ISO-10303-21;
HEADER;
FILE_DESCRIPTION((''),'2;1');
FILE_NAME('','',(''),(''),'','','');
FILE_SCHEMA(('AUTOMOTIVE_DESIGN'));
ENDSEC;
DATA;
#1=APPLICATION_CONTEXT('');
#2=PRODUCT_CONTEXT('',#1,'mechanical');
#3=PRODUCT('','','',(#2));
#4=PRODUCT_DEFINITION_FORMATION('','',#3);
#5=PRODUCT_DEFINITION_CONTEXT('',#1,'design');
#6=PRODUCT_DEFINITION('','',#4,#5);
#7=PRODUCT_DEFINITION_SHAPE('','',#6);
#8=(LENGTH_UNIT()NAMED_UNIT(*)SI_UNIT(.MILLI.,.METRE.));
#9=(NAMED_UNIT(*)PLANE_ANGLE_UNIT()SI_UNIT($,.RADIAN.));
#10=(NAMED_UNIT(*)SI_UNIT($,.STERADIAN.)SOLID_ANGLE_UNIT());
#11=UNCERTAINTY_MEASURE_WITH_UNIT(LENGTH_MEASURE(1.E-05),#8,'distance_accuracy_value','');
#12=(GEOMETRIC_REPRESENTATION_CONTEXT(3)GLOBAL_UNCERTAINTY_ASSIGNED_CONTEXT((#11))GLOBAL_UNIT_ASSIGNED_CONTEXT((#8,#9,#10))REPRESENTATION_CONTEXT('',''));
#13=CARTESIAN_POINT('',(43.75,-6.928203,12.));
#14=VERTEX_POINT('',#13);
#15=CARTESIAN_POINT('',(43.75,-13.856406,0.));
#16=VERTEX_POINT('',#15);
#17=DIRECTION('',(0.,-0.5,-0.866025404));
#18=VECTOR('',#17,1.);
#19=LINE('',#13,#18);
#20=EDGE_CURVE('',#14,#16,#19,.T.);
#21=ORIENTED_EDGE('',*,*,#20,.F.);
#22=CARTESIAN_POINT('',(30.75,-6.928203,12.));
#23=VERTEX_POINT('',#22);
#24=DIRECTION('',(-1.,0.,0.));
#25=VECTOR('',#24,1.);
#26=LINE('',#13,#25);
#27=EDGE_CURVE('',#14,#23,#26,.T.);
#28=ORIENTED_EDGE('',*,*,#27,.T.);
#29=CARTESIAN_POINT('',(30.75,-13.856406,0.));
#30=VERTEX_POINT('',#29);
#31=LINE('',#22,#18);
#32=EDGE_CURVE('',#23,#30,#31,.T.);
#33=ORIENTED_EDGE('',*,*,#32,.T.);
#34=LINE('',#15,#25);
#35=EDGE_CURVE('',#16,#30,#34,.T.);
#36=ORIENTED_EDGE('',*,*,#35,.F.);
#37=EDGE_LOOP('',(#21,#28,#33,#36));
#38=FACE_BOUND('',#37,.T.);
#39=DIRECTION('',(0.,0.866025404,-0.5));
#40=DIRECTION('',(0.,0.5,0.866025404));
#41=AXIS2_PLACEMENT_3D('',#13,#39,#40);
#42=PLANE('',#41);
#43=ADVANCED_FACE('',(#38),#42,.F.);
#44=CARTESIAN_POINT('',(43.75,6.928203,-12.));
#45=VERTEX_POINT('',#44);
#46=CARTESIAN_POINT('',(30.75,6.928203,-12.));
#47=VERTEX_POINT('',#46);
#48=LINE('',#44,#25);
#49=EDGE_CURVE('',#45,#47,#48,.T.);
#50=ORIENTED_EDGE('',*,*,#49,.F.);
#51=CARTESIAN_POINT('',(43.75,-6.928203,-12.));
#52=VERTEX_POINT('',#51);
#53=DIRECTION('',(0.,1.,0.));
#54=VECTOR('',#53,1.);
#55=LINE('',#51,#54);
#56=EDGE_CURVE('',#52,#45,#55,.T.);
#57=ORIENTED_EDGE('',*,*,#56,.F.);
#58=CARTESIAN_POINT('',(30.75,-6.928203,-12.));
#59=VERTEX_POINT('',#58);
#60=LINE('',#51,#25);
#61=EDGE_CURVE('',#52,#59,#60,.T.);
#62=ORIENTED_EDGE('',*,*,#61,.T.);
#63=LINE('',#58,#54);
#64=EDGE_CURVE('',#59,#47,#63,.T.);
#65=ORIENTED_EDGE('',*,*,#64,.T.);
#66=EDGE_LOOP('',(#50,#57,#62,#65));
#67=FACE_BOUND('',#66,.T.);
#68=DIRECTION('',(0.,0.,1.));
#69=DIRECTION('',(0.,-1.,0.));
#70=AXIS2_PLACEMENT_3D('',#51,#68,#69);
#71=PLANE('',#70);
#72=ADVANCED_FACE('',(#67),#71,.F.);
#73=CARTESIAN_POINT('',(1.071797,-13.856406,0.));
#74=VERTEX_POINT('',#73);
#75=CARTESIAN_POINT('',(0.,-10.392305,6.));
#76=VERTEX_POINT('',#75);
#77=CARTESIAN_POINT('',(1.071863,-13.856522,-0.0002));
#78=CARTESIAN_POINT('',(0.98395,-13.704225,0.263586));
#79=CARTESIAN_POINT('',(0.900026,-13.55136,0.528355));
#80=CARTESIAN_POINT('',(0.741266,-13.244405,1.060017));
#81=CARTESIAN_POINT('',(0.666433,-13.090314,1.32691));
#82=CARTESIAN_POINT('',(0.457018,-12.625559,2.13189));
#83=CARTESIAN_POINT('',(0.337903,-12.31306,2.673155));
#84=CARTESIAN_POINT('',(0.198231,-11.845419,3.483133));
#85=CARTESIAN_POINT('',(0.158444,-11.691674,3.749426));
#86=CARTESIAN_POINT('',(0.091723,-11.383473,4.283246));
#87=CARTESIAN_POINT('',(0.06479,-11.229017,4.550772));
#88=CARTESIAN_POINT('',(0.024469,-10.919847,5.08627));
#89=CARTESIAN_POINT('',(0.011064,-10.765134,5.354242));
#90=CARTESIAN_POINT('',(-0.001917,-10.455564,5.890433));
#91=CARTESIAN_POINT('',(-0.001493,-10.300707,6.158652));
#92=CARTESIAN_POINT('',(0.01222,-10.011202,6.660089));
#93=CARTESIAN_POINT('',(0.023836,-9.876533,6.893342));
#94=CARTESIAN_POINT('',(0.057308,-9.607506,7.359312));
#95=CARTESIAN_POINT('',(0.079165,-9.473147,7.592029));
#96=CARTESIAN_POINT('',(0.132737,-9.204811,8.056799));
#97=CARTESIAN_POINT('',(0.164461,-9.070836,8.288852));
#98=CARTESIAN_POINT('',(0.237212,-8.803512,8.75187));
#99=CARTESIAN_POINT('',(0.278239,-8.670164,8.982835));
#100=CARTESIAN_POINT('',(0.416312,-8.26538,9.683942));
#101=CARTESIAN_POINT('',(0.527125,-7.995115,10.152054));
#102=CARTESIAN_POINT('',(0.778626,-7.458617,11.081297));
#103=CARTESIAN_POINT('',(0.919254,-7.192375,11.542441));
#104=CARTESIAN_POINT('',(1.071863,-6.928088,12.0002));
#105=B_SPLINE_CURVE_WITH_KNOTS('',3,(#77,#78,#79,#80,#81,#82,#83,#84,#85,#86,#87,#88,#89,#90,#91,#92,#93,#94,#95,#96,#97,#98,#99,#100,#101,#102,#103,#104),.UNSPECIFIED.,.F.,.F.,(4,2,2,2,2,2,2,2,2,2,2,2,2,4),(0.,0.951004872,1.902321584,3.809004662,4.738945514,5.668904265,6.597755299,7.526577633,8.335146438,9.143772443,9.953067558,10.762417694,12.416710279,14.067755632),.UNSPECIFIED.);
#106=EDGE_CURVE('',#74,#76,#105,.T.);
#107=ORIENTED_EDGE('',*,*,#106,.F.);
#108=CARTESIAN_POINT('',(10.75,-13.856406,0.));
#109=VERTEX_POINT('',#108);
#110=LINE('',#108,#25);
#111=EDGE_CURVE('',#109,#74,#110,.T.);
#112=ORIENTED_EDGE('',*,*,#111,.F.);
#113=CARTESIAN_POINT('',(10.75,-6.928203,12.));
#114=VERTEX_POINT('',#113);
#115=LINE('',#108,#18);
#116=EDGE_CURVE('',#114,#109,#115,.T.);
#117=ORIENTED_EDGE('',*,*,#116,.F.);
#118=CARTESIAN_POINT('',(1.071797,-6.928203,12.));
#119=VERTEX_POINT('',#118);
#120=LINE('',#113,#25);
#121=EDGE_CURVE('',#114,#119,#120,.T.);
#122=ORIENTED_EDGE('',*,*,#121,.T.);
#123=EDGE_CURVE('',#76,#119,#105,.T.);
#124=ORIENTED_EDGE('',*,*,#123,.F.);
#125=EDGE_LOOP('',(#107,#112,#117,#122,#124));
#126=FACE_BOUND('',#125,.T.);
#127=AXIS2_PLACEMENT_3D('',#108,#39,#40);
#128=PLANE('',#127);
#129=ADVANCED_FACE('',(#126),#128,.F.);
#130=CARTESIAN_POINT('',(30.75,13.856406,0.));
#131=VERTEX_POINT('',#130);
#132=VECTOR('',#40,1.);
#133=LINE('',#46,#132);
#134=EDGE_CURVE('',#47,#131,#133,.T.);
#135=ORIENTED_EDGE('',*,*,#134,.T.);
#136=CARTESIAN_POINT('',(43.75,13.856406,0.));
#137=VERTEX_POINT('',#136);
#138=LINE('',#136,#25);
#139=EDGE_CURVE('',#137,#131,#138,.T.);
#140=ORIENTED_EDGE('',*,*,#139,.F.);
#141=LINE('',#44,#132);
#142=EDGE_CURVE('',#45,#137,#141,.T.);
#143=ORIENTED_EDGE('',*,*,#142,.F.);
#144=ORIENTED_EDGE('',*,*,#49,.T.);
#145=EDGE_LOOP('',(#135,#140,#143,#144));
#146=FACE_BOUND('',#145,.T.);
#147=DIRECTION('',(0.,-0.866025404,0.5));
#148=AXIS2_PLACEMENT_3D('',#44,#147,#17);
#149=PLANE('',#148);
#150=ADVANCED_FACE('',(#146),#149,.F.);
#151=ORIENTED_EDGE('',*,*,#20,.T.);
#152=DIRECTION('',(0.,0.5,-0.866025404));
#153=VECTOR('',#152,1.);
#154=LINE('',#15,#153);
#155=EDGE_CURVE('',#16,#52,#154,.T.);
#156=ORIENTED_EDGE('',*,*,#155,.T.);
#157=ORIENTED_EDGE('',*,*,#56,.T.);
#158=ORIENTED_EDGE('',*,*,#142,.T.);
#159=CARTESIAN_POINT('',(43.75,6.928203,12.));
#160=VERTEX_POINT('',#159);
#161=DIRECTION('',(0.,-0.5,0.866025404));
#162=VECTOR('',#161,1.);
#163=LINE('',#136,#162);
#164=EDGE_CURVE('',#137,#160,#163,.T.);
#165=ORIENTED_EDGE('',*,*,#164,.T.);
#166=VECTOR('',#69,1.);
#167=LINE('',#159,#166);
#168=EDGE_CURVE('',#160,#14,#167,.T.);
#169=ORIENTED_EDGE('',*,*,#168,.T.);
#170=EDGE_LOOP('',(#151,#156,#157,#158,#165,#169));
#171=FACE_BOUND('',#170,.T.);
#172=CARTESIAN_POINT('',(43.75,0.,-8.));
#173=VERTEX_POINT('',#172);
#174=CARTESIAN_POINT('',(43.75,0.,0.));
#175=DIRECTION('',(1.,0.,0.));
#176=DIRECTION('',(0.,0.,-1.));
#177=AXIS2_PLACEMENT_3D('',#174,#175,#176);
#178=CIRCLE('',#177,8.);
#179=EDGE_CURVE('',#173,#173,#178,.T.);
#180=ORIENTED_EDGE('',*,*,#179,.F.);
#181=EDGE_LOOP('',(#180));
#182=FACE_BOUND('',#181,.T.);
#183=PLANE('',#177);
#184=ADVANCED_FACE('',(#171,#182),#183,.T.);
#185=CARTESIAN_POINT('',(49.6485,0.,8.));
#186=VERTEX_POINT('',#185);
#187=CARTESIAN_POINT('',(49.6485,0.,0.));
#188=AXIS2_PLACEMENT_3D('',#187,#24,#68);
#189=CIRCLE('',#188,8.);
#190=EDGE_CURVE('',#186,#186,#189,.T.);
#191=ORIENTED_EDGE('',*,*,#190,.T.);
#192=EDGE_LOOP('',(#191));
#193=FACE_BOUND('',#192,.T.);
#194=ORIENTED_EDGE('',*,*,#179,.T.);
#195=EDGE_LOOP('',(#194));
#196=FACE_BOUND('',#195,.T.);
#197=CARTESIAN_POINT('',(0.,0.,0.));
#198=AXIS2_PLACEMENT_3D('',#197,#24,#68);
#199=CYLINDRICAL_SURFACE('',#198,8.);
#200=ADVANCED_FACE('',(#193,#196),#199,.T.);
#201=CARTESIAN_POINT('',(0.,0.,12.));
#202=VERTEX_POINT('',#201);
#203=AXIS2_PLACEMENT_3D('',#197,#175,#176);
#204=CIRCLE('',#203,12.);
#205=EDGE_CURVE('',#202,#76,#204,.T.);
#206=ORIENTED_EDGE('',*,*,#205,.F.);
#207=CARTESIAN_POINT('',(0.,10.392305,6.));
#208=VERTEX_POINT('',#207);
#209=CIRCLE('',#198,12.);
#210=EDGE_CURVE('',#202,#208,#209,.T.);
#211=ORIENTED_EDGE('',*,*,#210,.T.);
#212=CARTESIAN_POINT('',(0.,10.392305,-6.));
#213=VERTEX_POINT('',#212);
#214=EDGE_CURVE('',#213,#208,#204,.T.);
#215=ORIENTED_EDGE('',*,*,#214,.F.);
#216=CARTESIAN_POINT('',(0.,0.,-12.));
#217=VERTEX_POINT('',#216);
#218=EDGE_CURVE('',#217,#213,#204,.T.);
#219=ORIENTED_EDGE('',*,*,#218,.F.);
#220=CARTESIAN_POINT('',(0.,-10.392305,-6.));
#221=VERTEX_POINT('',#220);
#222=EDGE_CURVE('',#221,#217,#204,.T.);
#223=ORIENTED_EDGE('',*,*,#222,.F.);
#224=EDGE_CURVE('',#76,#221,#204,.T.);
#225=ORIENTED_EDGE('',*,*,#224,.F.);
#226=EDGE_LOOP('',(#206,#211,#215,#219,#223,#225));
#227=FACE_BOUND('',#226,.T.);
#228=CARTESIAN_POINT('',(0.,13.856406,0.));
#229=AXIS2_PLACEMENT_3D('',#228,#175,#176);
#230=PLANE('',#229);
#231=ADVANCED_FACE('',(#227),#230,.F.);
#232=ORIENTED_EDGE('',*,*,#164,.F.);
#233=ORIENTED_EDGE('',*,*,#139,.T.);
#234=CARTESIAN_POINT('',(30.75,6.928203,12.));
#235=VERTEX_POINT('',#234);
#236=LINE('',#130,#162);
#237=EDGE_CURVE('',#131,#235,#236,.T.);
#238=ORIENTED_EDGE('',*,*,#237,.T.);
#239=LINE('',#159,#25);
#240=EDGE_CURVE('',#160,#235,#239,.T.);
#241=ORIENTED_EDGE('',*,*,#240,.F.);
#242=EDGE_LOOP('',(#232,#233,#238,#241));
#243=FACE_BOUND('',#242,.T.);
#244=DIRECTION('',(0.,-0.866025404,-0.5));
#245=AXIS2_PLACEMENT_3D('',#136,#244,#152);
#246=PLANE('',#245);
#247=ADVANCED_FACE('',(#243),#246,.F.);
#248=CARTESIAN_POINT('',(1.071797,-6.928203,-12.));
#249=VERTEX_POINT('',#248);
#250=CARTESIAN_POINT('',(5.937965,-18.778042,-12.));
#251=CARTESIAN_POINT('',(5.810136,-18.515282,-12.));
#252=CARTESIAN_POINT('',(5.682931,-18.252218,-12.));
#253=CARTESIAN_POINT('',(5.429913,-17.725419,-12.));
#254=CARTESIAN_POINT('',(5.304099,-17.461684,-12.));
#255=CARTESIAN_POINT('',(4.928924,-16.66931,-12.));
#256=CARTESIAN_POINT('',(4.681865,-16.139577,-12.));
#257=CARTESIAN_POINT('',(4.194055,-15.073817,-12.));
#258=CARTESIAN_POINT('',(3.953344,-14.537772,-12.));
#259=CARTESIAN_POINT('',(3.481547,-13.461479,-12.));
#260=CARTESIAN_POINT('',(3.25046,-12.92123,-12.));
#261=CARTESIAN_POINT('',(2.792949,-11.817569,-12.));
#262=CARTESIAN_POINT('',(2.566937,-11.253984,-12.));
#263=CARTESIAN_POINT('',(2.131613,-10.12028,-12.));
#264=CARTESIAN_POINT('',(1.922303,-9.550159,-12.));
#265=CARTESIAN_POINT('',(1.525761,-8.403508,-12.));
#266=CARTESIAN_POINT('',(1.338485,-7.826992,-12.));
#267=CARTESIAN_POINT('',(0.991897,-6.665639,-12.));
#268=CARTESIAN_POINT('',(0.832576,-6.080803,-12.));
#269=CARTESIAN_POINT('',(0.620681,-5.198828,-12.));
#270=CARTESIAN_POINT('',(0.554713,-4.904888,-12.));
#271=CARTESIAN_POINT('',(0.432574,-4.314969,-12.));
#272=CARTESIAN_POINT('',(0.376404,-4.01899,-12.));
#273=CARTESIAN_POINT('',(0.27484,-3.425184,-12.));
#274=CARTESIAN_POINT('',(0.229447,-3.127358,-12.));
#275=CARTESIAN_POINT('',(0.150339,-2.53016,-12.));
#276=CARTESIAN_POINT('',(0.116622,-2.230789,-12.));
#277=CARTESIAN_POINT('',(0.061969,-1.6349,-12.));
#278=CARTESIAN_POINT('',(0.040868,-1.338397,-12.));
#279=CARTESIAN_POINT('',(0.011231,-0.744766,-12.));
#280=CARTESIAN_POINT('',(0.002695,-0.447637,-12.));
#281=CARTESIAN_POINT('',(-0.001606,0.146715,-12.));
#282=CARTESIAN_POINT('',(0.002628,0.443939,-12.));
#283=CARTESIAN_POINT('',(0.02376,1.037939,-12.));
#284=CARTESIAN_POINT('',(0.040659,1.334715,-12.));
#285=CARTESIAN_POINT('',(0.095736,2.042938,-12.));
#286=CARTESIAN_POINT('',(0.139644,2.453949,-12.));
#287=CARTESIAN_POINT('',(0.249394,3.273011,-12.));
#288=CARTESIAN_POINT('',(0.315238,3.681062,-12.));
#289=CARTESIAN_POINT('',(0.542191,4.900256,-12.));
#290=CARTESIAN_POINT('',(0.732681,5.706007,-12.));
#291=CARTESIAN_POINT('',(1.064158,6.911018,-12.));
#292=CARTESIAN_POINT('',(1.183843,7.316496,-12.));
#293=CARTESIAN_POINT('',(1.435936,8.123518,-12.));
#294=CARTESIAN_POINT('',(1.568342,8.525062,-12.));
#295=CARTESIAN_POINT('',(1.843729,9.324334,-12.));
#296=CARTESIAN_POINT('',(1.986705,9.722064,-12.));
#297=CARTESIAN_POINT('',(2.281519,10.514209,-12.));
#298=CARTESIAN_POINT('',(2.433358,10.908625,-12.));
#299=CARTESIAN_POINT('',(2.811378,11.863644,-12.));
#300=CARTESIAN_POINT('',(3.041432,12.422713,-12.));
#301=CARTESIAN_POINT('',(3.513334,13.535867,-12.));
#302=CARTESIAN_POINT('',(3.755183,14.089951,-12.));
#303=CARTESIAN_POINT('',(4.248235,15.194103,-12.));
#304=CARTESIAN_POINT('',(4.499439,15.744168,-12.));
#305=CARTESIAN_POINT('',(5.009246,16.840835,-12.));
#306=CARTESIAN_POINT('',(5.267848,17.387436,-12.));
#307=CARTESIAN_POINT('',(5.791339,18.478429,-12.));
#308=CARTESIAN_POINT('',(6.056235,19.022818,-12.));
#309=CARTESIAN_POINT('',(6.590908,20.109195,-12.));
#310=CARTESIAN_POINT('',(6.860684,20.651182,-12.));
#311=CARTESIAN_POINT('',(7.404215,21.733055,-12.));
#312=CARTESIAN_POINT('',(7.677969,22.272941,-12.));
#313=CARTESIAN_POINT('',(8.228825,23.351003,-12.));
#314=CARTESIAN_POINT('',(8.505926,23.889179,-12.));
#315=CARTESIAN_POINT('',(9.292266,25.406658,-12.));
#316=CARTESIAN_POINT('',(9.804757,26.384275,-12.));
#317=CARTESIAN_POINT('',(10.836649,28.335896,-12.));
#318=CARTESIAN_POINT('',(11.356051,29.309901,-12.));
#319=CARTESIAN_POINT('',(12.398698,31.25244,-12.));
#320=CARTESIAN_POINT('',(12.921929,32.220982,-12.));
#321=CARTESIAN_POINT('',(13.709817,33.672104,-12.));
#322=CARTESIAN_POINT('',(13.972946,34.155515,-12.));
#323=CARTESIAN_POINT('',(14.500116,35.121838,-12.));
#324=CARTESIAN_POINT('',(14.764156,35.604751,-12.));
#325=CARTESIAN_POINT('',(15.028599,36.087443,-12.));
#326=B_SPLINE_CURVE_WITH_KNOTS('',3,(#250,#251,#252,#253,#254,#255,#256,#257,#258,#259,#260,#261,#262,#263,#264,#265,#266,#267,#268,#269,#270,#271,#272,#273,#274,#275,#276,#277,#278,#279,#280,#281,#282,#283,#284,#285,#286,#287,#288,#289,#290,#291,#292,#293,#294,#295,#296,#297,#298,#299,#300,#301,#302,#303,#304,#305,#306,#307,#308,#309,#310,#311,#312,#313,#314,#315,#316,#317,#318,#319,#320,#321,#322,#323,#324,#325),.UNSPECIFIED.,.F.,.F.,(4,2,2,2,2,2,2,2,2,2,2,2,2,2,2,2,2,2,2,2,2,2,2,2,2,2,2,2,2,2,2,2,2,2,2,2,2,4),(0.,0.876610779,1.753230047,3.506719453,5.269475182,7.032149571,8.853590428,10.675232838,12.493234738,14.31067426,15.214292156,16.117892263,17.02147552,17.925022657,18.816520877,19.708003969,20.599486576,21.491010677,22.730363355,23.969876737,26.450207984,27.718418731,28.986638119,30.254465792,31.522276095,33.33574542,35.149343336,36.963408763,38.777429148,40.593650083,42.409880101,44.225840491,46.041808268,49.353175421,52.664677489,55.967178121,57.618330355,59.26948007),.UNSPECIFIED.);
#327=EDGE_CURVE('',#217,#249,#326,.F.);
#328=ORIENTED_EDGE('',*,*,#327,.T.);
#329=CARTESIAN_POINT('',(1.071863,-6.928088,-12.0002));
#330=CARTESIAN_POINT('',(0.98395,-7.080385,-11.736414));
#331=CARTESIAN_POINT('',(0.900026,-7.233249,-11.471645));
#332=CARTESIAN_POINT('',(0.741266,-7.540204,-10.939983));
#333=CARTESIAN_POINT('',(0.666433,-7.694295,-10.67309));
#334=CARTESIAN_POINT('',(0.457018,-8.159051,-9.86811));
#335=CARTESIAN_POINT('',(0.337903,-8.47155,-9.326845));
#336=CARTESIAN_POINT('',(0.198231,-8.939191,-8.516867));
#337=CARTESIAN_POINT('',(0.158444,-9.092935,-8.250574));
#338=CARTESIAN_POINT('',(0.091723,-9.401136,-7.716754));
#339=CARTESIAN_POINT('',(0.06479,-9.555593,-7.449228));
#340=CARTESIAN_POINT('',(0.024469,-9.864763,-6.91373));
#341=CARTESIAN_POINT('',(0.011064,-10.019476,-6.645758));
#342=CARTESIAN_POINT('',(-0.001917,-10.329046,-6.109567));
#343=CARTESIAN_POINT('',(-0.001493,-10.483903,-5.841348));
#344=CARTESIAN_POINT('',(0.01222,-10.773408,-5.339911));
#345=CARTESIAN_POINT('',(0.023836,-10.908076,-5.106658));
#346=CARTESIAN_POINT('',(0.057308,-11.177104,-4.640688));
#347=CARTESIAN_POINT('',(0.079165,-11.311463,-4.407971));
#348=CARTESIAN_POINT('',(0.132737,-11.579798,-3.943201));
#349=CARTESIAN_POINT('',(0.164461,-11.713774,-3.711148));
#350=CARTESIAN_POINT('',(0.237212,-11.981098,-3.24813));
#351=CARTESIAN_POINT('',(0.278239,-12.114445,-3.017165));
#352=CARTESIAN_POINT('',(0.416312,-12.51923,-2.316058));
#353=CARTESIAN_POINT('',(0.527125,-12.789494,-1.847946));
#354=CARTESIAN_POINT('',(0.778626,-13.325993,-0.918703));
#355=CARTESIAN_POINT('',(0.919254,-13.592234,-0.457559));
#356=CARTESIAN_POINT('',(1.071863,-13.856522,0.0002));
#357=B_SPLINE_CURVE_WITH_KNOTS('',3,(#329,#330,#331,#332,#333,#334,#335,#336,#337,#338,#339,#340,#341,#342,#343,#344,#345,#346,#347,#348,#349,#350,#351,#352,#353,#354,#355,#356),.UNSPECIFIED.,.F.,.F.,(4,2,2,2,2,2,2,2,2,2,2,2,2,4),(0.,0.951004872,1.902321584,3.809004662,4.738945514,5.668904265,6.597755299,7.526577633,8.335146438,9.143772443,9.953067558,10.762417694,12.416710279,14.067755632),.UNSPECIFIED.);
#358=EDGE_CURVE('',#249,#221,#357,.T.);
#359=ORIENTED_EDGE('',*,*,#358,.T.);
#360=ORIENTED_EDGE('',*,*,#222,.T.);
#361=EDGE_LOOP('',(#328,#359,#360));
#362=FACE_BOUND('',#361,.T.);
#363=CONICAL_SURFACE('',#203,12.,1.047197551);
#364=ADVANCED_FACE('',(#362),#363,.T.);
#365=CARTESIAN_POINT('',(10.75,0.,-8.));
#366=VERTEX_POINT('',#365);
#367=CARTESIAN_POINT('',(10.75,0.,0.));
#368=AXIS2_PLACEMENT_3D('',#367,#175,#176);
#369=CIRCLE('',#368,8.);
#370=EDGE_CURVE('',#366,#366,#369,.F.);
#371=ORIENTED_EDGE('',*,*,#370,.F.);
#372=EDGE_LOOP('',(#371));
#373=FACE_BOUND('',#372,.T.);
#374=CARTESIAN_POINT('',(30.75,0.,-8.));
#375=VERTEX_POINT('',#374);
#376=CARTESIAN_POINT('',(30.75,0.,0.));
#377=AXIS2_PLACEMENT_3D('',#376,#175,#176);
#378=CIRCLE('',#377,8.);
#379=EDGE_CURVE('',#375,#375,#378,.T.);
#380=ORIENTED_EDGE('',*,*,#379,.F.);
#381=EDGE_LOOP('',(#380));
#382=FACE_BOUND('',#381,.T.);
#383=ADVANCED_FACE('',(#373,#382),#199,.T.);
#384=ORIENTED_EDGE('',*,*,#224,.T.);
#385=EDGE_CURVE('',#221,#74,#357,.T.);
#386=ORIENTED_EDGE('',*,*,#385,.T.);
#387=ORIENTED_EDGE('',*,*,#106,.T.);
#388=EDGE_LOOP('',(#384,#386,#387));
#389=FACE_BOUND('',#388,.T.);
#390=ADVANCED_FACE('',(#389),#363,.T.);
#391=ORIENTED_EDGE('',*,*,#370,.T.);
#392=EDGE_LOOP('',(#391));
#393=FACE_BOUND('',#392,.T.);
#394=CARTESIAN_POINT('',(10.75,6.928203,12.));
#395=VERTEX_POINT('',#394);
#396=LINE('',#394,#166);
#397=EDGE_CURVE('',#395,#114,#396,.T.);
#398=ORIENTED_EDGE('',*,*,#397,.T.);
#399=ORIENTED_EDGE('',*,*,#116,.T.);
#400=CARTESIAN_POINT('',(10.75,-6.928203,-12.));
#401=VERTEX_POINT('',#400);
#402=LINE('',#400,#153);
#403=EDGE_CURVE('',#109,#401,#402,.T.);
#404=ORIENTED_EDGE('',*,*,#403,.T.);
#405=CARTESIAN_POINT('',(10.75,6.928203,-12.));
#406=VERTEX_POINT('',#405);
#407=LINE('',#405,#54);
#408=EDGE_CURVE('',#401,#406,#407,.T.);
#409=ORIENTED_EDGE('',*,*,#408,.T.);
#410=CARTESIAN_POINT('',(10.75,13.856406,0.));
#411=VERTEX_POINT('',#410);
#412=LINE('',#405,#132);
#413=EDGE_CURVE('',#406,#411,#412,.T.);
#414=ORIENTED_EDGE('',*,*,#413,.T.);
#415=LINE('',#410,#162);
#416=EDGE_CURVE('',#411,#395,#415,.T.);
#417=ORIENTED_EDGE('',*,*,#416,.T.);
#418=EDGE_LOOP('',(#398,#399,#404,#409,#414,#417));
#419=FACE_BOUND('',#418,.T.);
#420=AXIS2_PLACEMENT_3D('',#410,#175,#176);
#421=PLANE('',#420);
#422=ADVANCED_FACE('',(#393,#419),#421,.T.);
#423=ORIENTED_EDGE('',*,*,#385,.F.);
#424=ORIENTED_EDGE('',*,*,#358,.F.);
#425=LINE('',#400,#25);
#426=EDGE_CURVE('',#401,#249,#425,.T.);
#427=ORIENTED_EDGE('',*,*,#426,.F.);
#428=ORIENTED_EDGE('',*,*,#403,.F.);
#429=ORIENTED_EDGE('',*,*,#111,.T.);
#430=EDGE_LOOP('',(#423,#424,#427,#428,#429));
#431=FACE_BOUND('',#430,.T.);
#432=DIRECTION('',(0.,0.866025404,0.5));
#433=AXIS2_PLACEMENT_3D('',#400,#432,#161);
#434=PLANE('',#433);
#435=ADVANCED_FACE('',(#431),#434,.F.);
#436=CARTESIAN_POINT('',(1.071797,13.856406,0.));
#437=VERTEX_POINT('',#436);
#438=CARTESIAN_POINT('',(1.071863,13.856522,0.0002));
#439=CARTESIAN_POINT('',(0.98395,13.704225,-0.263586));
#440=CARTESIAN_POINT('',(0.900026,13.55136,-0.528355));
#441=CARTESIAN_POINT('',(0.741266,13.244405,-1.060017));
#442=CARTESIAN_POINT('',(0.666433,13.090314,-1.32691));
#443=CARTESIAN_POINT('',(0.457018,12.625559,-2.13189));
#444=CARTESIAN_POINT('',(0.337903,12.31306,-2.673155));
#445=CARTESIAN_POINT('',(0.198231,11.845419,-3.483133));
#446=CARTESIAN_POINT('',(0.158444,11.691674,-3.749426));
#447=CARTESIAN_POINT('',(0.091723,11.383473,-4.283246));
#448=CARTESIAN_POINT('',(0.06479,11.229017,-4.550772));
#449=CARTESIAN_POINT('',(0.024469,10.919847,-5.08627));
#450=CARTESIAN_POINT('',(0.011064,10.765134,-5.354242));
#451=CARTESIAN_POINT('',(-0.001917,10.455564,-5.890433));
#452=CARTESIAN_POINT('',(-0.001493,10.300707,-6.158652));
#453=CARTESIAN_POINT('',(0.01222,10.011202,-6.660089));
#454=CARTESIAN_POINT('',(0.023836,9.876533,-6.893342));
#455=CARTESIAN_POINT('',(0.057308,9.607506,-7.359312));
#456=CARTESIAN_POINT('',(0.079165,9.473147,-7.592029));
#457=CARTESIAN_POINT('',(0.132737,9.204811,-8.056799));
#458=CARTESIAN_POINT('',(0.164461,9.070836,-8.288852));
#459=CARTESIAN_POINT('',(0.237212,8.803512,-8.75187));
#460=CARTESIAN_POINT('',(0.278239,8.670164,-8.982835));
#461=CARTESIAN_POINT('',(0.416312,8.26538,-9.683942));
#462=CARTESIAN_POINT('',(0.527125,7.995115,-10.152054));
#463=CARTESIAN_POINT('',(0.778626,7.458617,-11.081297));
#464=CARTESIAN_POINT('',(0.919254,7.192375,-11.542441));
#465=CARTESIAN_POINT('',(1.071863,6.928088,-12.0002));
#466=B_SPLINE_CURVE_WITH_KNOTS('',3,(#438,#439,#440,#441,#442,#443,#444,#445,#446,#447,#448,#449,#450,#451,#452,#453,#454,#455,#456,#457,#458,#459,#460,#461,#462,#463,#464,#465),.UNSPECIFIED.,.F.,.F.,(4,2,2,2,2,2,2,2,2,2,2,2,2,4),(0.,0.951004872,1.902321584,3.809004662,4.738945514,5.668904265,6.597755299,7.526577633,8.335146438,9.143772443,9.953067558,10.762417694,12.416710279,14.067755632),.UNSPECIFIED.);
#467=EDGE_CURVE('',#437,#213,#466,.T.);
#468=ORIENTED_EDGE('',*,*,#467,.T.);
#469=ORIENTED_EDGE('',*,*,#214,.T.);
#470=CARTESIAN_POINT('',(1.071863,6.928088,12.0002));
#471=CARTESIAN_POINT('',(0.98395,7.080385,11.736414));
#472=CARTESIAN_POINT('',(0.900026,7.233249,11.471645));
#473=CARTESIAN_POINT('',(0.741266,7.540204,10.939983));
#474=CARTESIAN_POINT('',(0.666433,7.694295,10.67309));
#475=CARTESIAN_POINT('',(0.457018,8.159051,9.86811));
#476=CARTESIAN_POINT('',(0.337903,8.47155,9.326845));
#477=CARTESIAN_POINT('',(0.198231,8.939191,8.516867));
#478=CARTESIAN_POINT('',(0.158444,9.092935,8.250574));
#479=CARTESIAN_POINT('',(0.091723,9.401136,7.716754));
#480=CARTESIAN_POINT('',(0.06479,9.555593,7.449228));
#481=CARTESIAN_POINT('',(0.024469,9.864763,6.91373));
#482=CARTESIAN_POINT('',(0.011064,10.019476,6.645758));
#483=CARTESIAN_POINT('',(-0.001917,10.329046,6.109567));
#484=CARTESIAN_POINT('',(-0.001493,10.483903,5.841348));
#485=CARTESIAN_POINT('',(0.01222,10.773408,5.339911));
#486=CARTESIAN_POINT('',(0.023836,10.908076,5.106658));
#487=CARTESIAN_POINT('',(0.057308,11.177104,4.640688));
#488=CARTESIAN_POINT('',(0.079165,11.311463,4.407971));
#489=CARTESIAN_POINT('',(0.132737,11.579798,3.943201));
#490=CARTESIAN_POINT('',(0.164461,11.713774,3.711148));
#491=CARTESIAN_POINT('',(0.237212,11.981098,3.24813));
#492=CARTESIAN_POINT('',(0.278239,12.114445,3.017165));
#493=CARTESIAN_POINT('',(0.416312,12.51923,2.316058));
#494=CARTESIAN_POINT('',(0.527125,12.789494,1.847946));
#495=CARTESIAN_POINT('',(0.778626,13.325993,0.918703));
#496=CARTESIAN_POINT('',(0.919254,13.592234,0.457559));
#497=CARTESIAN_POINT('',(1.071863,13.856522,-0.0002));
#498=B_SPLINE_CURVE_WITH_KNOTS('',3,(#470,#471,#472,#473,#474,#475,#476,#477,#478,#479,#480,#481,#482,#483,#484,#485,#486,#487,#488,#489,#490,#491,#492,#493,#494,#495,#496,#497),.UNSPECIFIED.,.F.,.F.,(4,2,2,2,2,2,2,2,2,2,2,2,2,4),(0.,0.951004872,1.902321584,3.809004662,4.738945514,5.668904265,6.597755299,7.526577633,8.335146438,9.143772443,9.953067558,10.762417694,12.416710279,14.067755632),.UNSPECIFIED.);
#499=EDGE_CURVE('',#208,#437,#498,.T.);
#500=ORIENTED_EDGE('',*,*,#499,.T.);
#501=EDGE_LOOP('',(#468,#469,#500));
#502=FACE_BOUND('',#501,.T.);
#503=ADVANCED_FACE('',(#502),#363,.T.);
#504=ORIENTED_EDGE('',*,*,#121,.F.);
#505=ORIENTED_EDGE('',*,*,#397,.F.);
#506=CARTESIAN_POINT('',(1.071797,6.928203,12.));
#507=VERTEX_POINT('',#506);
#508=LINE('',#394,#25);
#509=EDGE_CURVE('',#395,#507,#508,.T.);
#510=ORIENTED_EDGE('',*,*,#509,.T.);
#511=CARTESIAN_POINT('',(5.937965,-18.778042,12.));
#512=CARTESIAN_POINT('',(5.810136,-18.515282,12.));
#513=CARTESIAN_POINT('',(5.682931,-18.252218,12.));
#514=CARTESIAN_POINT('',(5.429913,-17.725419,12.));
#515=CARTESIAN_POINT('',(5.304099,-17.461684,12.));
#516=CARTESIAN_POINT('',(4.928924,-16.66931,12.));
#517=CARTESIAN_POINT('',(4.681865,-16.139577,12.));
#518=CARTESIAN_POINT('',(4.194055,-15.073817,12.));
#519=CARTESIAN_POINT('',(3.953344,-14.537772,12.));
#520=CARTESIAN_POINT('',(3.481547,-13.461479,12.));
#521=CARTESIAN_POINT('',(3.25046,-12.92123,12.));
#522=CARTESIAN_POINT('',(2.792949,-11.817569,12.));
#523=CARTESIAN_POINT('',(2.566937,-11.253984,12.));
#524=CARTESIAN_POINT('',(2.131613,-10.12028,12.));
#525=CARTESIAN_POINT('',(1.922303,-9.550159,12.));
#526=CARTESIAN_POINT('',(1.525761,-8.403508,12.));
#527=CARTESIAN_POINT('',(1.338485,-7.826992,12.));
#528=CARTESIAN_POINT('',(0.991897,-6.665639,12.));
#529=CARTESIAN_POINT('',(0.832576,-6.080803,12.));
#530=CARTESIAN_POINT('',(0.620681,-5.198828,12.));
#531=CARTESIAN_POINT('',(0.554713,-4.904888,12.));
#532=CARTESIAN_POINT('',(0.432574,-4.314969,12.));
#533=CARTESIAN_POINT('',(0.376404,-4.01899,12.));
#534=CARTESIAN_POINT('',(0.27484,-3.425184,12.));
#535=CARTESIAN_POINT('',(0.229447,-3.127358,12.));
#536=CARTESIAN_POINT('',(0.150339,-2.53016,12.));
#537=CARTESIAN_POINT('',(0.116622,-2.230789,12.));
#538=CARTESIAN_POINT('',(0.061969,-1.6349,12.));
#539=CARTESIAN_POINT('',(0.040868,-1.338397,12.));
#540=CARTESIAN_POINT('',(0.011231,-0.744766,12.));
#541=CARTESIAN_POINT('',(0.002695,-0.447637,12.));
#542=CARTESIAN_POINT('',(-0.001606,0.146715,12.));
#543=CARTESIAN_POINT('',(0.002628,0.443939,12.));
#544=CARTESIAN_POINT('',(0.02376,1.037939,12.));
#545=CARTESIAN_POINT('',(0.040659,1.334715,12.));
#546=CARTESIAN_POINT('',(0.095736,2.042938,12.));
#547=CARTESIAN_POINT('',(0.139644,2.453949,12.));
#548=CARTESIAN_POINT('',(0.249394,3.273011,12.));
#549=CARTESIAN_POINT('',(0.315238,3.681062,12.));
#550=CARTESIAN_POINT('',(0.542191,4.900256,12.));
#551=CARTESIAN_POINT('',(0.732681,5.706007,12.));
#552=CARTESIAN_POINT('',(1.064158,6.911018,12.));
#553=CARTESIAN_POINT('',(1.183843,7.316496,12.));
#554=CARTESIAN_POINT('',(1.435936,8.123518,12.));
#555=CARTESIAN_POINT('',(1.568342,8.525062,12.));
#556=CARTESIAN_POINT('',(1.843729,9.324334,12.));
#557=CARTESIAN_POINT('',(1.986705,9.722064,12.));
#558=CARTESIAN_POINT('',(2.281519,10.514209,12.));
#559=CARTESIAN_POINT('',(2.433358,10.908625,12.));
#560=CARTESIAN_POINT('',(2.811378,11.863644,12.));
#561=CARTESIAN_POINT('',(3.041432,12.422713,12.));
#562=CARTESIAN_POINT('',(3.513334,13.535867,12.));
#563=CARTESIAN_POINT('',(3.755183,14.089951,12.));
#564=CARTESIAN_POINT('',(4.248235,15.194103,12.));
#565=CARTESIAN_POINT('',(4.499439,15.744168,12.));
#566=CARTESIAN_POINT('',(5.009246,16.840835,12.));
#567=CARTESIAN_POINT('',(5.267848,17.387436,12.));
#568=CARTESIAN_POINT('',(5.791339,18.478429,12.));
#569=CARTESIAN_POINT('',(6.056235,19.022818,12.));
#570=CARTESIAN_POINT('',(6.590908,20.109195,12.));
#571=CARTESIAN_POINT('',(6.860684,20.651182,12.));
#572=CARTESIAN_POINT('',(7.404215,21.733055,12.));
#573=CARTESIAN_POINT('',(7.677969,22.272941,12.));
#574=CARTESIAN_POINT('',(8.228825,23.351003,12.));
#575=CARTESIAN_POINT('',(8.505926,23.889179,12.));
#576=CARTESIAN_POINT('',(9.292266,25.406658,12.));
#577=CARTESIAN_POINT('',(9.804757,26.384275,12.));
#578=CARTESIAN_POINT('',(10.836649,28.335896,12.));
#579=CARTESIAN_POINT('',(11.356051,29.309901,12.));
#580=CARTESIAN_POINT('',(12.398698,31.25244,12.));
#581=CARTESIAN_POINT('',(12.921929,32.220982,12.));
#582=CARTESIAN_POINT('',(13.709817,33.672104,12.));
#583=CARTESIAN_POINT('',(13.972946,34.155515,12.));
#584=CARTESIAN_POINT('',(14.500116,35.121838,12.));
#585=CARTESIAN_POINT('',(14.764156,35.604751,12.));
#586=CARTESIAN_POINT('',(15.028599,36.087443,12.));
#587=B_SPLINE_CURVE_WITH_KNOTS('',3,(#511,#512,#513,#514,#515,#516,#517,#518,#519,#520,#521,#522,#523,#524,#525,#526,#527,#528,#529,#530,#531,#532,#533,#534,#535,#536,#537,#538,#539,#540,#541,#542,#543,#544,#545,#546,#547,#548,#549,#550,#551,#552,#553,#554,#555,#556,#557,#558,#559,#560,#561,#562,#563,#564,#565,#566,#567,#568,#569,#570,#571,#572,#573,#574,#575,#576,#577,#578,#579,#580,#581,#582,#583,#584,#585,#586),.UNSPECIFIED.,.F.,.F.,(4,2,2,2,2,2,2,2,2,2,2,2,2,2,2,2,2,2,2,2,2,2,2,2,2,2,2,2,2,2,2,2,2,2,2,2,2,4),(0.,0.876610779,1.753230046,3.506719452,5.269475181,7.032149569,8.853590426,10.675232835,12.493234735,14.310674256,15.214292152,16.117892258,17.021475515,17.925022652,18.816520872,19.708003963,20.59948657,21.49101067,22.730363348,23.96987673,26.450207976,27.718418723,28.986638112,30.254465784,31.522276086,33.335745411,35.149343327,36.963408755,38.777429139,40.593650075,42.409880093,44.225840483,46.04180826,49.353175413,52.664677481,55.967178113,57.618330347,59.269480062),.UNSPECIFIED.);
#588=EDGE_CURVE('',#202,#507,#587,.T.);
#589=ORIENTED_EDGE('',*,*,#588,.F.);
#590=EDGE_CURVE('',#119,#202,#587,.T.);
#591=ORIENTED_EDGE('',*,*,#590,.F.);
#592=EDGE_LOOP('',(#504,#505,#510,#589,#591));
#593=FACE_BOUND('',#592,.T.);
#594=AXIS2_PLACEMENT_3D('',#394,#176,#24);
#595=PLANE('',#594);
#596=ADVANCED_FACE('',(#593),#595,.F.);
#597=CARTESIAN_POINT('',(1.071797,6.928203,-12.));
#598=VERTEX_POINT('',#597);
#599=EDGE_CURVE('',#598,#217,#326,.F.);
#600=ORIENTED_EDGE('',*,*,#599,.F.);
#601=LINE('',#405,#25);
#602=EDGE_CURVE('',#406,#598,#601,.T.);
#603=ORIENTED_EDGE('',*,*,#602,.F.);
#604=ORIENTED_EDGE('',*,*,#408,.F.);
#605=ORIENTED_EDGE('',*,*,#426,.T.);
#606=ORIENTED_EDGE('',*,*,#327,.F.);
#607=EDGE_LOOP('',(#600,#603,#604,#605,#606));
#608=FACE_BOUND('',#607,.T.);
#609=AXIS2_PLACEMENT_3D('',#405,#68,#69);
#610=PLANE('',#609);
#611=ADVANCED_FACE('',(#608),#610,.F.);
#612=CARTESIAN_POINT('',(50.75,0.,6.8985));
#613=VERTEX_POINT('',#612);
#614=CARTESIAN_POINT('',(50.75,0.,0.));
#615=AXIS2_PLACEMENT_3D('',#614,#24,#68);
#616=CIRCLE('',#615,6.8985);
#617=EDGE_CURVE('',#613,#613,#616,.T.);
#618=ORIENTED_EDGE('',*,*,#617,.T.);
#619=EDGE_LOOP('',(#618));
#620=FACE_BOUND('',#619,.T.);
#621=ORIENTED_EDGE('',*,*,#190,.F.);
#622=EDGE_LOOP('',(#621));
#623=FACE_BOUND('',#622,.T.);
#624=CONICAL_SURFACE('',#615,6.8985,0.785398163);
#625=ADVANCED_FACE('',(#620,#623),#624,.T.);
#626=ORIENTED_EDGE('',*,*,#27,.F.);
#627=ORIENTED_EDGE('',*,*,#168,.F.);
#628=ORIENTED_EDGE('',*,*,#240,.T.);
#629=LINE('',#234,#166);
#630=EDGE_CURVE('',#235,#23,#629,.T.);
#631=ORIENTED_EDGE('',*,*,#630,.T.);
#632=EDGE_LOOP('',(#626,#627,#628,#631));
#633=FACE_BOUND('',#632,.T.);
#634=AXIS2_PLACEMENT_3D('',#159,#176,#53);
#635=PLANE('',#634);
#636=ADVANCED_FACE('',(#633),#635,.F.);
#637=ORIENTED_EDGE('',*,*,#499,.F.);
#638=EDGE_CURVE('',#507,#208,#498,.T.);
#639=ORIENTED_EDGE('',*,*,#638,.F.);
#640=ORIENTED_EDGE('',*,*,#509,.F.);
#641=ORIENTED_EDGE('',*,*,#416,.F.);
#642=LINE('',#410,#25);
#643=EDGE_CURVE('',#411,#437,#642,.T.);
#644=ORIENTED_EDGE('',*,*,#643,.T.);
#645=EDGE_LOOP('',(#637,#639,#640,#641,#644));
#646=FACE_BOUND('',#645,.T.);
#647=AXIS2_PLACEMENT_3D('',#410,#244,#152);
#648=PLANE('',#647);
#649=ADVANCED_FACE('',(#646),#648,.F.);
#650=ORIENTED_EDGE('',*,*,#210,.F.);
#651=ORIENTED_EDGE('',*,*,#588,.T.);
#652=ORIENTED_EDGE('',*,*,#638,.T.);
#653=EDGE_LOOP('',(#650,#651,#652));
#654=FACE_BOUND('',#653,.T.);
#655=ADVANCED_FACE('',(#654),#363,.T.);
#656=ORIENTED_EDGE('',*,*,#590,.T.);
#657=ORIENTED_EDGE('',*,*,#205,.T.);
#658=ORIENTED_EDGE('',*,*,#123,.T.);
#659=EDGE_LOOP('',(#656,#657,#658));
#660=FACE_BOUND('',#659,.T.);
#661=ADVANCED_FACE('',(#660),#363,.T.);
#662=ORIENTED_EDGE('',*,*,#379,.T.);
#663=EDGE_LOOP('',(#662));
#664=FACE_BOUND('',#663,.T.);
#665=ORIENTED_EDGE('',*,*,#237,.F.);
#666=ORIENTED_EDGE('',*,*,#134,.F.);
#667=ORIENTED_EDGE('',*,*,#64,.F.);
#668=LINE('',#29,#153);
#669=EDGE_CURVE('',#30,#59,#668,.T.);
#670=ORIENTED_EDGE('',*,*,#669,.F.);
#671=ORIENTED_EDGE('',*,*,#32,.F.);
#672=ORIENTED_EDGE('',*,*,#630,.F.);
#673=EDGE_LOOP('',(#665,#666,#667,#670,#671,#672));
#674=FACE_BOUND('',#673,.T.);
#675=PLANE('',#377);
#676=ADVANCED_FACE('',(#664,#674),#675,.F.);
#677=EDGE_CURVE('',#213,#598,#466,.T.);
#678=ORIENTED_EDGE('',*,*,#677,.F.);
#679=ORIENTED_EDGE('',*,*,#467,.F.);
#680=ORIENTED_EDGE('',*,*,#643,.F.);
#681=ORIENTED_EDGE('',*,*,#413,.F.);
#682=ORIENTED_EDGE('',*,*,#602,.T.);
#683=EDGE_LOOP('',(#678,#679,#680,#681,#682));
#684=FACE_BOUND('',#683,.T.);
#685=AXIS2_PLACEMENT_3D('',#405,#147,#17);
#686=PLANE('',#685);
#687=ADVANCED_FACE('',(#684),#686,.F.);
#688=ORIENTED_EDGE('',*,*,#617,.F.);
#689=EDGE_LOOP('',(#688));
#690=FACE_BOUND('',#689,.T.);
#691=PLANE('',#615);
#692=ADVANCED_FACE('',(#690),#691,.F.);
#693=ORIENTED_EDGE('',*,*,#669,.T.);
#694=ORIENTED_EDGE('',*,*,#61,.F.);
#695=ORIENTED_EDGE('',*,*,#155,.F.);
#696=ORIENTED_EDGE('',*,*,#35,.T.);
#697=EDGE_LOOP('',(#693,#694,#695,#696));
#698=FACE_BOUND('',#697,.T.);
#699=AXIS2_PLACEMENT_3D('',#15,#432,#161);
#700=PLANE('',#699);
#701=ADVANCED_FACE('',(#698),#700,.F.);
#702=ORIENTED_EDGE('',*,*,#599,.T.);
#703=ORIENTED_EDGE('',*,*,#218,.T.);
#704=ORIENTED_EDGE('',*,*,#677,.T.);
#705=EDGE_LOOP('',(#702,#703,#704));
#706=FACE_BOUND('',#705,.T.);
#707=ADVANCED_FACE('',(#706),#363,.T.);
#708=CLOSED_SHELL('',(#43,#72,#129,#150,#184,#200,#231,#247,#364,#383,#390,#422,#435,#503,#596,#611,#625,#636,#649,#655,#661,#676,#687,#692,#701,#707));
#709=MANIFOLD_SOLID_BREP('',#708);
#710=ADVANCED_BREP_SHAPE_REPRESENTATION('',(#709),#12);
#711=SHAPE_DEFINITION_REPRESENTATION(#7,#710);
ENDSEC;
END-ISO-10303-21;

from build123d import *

# Parameters (mm, degrees)
BASEHEAD_DEPTH      = 10.75
BOSS_EXTRUDE1_DEPTH = 13


with BuildPart() as part:
    # Sketch1 → BaseHead (new body)
    with BuildSketch(Plane(origin=(0, 0, 0), x_dir=(0, 0, -1), z_dir=(1, 0, 0))):
        Polygon((12, 6.92820323), (12, -6.92820323), (0, -13.856406461), (-12, -6.92820323), (-12, 6.92820323), (0, 13.856406461), align=None)
    extrude(amount=BASEHEAD_DEPTH)

    # BodySke → BaseBody (revolve)
    with BuildSketch(Plane.XY, mode=Mode.PRIVATE) as basebody_sk:
        Polygon((0, 0), (50.75, 0), (50.75, 6.8985), (49.6485, 8), (0, 8), align=None)
    revolve(basebody_sk.sketch.rotate(Axis((0, 0, 0), (1, 0, 0)), 90), axis=Axis((0, 0, 0), (1, 0, 0)))

    # Sketch3 → HeadChamfer (revolve, cut)
    with BuildSketch(Plane.XY):
        Polygon((0, 12), (3.958548116, 18.856406461), (3.958548116, 23.856406461), (-10, 23.856406461), (-10, 12), align=None)
    revolve(axis=Axis((0, 0, 0), (1, 0, 0)), mode=Mode.SUBTRACT)

    # Sketch4 → Boss-Extrude1 (add)
    with BuildSketch(Plane(origin=(30.75, 0, 0), x_dir=(0, 0, -1), z_dir=(1, 0, 0))):
        Polygon((0, 13.856406461), (-12, 6.92820323), (-12, -6.92820323), (0, -13.856406461), (12, -6.92820323), (12, 6.92820323), align=None)
    extrude(amount=BOSS_EXTRUDE1_DEPTH)


solid = part.part
